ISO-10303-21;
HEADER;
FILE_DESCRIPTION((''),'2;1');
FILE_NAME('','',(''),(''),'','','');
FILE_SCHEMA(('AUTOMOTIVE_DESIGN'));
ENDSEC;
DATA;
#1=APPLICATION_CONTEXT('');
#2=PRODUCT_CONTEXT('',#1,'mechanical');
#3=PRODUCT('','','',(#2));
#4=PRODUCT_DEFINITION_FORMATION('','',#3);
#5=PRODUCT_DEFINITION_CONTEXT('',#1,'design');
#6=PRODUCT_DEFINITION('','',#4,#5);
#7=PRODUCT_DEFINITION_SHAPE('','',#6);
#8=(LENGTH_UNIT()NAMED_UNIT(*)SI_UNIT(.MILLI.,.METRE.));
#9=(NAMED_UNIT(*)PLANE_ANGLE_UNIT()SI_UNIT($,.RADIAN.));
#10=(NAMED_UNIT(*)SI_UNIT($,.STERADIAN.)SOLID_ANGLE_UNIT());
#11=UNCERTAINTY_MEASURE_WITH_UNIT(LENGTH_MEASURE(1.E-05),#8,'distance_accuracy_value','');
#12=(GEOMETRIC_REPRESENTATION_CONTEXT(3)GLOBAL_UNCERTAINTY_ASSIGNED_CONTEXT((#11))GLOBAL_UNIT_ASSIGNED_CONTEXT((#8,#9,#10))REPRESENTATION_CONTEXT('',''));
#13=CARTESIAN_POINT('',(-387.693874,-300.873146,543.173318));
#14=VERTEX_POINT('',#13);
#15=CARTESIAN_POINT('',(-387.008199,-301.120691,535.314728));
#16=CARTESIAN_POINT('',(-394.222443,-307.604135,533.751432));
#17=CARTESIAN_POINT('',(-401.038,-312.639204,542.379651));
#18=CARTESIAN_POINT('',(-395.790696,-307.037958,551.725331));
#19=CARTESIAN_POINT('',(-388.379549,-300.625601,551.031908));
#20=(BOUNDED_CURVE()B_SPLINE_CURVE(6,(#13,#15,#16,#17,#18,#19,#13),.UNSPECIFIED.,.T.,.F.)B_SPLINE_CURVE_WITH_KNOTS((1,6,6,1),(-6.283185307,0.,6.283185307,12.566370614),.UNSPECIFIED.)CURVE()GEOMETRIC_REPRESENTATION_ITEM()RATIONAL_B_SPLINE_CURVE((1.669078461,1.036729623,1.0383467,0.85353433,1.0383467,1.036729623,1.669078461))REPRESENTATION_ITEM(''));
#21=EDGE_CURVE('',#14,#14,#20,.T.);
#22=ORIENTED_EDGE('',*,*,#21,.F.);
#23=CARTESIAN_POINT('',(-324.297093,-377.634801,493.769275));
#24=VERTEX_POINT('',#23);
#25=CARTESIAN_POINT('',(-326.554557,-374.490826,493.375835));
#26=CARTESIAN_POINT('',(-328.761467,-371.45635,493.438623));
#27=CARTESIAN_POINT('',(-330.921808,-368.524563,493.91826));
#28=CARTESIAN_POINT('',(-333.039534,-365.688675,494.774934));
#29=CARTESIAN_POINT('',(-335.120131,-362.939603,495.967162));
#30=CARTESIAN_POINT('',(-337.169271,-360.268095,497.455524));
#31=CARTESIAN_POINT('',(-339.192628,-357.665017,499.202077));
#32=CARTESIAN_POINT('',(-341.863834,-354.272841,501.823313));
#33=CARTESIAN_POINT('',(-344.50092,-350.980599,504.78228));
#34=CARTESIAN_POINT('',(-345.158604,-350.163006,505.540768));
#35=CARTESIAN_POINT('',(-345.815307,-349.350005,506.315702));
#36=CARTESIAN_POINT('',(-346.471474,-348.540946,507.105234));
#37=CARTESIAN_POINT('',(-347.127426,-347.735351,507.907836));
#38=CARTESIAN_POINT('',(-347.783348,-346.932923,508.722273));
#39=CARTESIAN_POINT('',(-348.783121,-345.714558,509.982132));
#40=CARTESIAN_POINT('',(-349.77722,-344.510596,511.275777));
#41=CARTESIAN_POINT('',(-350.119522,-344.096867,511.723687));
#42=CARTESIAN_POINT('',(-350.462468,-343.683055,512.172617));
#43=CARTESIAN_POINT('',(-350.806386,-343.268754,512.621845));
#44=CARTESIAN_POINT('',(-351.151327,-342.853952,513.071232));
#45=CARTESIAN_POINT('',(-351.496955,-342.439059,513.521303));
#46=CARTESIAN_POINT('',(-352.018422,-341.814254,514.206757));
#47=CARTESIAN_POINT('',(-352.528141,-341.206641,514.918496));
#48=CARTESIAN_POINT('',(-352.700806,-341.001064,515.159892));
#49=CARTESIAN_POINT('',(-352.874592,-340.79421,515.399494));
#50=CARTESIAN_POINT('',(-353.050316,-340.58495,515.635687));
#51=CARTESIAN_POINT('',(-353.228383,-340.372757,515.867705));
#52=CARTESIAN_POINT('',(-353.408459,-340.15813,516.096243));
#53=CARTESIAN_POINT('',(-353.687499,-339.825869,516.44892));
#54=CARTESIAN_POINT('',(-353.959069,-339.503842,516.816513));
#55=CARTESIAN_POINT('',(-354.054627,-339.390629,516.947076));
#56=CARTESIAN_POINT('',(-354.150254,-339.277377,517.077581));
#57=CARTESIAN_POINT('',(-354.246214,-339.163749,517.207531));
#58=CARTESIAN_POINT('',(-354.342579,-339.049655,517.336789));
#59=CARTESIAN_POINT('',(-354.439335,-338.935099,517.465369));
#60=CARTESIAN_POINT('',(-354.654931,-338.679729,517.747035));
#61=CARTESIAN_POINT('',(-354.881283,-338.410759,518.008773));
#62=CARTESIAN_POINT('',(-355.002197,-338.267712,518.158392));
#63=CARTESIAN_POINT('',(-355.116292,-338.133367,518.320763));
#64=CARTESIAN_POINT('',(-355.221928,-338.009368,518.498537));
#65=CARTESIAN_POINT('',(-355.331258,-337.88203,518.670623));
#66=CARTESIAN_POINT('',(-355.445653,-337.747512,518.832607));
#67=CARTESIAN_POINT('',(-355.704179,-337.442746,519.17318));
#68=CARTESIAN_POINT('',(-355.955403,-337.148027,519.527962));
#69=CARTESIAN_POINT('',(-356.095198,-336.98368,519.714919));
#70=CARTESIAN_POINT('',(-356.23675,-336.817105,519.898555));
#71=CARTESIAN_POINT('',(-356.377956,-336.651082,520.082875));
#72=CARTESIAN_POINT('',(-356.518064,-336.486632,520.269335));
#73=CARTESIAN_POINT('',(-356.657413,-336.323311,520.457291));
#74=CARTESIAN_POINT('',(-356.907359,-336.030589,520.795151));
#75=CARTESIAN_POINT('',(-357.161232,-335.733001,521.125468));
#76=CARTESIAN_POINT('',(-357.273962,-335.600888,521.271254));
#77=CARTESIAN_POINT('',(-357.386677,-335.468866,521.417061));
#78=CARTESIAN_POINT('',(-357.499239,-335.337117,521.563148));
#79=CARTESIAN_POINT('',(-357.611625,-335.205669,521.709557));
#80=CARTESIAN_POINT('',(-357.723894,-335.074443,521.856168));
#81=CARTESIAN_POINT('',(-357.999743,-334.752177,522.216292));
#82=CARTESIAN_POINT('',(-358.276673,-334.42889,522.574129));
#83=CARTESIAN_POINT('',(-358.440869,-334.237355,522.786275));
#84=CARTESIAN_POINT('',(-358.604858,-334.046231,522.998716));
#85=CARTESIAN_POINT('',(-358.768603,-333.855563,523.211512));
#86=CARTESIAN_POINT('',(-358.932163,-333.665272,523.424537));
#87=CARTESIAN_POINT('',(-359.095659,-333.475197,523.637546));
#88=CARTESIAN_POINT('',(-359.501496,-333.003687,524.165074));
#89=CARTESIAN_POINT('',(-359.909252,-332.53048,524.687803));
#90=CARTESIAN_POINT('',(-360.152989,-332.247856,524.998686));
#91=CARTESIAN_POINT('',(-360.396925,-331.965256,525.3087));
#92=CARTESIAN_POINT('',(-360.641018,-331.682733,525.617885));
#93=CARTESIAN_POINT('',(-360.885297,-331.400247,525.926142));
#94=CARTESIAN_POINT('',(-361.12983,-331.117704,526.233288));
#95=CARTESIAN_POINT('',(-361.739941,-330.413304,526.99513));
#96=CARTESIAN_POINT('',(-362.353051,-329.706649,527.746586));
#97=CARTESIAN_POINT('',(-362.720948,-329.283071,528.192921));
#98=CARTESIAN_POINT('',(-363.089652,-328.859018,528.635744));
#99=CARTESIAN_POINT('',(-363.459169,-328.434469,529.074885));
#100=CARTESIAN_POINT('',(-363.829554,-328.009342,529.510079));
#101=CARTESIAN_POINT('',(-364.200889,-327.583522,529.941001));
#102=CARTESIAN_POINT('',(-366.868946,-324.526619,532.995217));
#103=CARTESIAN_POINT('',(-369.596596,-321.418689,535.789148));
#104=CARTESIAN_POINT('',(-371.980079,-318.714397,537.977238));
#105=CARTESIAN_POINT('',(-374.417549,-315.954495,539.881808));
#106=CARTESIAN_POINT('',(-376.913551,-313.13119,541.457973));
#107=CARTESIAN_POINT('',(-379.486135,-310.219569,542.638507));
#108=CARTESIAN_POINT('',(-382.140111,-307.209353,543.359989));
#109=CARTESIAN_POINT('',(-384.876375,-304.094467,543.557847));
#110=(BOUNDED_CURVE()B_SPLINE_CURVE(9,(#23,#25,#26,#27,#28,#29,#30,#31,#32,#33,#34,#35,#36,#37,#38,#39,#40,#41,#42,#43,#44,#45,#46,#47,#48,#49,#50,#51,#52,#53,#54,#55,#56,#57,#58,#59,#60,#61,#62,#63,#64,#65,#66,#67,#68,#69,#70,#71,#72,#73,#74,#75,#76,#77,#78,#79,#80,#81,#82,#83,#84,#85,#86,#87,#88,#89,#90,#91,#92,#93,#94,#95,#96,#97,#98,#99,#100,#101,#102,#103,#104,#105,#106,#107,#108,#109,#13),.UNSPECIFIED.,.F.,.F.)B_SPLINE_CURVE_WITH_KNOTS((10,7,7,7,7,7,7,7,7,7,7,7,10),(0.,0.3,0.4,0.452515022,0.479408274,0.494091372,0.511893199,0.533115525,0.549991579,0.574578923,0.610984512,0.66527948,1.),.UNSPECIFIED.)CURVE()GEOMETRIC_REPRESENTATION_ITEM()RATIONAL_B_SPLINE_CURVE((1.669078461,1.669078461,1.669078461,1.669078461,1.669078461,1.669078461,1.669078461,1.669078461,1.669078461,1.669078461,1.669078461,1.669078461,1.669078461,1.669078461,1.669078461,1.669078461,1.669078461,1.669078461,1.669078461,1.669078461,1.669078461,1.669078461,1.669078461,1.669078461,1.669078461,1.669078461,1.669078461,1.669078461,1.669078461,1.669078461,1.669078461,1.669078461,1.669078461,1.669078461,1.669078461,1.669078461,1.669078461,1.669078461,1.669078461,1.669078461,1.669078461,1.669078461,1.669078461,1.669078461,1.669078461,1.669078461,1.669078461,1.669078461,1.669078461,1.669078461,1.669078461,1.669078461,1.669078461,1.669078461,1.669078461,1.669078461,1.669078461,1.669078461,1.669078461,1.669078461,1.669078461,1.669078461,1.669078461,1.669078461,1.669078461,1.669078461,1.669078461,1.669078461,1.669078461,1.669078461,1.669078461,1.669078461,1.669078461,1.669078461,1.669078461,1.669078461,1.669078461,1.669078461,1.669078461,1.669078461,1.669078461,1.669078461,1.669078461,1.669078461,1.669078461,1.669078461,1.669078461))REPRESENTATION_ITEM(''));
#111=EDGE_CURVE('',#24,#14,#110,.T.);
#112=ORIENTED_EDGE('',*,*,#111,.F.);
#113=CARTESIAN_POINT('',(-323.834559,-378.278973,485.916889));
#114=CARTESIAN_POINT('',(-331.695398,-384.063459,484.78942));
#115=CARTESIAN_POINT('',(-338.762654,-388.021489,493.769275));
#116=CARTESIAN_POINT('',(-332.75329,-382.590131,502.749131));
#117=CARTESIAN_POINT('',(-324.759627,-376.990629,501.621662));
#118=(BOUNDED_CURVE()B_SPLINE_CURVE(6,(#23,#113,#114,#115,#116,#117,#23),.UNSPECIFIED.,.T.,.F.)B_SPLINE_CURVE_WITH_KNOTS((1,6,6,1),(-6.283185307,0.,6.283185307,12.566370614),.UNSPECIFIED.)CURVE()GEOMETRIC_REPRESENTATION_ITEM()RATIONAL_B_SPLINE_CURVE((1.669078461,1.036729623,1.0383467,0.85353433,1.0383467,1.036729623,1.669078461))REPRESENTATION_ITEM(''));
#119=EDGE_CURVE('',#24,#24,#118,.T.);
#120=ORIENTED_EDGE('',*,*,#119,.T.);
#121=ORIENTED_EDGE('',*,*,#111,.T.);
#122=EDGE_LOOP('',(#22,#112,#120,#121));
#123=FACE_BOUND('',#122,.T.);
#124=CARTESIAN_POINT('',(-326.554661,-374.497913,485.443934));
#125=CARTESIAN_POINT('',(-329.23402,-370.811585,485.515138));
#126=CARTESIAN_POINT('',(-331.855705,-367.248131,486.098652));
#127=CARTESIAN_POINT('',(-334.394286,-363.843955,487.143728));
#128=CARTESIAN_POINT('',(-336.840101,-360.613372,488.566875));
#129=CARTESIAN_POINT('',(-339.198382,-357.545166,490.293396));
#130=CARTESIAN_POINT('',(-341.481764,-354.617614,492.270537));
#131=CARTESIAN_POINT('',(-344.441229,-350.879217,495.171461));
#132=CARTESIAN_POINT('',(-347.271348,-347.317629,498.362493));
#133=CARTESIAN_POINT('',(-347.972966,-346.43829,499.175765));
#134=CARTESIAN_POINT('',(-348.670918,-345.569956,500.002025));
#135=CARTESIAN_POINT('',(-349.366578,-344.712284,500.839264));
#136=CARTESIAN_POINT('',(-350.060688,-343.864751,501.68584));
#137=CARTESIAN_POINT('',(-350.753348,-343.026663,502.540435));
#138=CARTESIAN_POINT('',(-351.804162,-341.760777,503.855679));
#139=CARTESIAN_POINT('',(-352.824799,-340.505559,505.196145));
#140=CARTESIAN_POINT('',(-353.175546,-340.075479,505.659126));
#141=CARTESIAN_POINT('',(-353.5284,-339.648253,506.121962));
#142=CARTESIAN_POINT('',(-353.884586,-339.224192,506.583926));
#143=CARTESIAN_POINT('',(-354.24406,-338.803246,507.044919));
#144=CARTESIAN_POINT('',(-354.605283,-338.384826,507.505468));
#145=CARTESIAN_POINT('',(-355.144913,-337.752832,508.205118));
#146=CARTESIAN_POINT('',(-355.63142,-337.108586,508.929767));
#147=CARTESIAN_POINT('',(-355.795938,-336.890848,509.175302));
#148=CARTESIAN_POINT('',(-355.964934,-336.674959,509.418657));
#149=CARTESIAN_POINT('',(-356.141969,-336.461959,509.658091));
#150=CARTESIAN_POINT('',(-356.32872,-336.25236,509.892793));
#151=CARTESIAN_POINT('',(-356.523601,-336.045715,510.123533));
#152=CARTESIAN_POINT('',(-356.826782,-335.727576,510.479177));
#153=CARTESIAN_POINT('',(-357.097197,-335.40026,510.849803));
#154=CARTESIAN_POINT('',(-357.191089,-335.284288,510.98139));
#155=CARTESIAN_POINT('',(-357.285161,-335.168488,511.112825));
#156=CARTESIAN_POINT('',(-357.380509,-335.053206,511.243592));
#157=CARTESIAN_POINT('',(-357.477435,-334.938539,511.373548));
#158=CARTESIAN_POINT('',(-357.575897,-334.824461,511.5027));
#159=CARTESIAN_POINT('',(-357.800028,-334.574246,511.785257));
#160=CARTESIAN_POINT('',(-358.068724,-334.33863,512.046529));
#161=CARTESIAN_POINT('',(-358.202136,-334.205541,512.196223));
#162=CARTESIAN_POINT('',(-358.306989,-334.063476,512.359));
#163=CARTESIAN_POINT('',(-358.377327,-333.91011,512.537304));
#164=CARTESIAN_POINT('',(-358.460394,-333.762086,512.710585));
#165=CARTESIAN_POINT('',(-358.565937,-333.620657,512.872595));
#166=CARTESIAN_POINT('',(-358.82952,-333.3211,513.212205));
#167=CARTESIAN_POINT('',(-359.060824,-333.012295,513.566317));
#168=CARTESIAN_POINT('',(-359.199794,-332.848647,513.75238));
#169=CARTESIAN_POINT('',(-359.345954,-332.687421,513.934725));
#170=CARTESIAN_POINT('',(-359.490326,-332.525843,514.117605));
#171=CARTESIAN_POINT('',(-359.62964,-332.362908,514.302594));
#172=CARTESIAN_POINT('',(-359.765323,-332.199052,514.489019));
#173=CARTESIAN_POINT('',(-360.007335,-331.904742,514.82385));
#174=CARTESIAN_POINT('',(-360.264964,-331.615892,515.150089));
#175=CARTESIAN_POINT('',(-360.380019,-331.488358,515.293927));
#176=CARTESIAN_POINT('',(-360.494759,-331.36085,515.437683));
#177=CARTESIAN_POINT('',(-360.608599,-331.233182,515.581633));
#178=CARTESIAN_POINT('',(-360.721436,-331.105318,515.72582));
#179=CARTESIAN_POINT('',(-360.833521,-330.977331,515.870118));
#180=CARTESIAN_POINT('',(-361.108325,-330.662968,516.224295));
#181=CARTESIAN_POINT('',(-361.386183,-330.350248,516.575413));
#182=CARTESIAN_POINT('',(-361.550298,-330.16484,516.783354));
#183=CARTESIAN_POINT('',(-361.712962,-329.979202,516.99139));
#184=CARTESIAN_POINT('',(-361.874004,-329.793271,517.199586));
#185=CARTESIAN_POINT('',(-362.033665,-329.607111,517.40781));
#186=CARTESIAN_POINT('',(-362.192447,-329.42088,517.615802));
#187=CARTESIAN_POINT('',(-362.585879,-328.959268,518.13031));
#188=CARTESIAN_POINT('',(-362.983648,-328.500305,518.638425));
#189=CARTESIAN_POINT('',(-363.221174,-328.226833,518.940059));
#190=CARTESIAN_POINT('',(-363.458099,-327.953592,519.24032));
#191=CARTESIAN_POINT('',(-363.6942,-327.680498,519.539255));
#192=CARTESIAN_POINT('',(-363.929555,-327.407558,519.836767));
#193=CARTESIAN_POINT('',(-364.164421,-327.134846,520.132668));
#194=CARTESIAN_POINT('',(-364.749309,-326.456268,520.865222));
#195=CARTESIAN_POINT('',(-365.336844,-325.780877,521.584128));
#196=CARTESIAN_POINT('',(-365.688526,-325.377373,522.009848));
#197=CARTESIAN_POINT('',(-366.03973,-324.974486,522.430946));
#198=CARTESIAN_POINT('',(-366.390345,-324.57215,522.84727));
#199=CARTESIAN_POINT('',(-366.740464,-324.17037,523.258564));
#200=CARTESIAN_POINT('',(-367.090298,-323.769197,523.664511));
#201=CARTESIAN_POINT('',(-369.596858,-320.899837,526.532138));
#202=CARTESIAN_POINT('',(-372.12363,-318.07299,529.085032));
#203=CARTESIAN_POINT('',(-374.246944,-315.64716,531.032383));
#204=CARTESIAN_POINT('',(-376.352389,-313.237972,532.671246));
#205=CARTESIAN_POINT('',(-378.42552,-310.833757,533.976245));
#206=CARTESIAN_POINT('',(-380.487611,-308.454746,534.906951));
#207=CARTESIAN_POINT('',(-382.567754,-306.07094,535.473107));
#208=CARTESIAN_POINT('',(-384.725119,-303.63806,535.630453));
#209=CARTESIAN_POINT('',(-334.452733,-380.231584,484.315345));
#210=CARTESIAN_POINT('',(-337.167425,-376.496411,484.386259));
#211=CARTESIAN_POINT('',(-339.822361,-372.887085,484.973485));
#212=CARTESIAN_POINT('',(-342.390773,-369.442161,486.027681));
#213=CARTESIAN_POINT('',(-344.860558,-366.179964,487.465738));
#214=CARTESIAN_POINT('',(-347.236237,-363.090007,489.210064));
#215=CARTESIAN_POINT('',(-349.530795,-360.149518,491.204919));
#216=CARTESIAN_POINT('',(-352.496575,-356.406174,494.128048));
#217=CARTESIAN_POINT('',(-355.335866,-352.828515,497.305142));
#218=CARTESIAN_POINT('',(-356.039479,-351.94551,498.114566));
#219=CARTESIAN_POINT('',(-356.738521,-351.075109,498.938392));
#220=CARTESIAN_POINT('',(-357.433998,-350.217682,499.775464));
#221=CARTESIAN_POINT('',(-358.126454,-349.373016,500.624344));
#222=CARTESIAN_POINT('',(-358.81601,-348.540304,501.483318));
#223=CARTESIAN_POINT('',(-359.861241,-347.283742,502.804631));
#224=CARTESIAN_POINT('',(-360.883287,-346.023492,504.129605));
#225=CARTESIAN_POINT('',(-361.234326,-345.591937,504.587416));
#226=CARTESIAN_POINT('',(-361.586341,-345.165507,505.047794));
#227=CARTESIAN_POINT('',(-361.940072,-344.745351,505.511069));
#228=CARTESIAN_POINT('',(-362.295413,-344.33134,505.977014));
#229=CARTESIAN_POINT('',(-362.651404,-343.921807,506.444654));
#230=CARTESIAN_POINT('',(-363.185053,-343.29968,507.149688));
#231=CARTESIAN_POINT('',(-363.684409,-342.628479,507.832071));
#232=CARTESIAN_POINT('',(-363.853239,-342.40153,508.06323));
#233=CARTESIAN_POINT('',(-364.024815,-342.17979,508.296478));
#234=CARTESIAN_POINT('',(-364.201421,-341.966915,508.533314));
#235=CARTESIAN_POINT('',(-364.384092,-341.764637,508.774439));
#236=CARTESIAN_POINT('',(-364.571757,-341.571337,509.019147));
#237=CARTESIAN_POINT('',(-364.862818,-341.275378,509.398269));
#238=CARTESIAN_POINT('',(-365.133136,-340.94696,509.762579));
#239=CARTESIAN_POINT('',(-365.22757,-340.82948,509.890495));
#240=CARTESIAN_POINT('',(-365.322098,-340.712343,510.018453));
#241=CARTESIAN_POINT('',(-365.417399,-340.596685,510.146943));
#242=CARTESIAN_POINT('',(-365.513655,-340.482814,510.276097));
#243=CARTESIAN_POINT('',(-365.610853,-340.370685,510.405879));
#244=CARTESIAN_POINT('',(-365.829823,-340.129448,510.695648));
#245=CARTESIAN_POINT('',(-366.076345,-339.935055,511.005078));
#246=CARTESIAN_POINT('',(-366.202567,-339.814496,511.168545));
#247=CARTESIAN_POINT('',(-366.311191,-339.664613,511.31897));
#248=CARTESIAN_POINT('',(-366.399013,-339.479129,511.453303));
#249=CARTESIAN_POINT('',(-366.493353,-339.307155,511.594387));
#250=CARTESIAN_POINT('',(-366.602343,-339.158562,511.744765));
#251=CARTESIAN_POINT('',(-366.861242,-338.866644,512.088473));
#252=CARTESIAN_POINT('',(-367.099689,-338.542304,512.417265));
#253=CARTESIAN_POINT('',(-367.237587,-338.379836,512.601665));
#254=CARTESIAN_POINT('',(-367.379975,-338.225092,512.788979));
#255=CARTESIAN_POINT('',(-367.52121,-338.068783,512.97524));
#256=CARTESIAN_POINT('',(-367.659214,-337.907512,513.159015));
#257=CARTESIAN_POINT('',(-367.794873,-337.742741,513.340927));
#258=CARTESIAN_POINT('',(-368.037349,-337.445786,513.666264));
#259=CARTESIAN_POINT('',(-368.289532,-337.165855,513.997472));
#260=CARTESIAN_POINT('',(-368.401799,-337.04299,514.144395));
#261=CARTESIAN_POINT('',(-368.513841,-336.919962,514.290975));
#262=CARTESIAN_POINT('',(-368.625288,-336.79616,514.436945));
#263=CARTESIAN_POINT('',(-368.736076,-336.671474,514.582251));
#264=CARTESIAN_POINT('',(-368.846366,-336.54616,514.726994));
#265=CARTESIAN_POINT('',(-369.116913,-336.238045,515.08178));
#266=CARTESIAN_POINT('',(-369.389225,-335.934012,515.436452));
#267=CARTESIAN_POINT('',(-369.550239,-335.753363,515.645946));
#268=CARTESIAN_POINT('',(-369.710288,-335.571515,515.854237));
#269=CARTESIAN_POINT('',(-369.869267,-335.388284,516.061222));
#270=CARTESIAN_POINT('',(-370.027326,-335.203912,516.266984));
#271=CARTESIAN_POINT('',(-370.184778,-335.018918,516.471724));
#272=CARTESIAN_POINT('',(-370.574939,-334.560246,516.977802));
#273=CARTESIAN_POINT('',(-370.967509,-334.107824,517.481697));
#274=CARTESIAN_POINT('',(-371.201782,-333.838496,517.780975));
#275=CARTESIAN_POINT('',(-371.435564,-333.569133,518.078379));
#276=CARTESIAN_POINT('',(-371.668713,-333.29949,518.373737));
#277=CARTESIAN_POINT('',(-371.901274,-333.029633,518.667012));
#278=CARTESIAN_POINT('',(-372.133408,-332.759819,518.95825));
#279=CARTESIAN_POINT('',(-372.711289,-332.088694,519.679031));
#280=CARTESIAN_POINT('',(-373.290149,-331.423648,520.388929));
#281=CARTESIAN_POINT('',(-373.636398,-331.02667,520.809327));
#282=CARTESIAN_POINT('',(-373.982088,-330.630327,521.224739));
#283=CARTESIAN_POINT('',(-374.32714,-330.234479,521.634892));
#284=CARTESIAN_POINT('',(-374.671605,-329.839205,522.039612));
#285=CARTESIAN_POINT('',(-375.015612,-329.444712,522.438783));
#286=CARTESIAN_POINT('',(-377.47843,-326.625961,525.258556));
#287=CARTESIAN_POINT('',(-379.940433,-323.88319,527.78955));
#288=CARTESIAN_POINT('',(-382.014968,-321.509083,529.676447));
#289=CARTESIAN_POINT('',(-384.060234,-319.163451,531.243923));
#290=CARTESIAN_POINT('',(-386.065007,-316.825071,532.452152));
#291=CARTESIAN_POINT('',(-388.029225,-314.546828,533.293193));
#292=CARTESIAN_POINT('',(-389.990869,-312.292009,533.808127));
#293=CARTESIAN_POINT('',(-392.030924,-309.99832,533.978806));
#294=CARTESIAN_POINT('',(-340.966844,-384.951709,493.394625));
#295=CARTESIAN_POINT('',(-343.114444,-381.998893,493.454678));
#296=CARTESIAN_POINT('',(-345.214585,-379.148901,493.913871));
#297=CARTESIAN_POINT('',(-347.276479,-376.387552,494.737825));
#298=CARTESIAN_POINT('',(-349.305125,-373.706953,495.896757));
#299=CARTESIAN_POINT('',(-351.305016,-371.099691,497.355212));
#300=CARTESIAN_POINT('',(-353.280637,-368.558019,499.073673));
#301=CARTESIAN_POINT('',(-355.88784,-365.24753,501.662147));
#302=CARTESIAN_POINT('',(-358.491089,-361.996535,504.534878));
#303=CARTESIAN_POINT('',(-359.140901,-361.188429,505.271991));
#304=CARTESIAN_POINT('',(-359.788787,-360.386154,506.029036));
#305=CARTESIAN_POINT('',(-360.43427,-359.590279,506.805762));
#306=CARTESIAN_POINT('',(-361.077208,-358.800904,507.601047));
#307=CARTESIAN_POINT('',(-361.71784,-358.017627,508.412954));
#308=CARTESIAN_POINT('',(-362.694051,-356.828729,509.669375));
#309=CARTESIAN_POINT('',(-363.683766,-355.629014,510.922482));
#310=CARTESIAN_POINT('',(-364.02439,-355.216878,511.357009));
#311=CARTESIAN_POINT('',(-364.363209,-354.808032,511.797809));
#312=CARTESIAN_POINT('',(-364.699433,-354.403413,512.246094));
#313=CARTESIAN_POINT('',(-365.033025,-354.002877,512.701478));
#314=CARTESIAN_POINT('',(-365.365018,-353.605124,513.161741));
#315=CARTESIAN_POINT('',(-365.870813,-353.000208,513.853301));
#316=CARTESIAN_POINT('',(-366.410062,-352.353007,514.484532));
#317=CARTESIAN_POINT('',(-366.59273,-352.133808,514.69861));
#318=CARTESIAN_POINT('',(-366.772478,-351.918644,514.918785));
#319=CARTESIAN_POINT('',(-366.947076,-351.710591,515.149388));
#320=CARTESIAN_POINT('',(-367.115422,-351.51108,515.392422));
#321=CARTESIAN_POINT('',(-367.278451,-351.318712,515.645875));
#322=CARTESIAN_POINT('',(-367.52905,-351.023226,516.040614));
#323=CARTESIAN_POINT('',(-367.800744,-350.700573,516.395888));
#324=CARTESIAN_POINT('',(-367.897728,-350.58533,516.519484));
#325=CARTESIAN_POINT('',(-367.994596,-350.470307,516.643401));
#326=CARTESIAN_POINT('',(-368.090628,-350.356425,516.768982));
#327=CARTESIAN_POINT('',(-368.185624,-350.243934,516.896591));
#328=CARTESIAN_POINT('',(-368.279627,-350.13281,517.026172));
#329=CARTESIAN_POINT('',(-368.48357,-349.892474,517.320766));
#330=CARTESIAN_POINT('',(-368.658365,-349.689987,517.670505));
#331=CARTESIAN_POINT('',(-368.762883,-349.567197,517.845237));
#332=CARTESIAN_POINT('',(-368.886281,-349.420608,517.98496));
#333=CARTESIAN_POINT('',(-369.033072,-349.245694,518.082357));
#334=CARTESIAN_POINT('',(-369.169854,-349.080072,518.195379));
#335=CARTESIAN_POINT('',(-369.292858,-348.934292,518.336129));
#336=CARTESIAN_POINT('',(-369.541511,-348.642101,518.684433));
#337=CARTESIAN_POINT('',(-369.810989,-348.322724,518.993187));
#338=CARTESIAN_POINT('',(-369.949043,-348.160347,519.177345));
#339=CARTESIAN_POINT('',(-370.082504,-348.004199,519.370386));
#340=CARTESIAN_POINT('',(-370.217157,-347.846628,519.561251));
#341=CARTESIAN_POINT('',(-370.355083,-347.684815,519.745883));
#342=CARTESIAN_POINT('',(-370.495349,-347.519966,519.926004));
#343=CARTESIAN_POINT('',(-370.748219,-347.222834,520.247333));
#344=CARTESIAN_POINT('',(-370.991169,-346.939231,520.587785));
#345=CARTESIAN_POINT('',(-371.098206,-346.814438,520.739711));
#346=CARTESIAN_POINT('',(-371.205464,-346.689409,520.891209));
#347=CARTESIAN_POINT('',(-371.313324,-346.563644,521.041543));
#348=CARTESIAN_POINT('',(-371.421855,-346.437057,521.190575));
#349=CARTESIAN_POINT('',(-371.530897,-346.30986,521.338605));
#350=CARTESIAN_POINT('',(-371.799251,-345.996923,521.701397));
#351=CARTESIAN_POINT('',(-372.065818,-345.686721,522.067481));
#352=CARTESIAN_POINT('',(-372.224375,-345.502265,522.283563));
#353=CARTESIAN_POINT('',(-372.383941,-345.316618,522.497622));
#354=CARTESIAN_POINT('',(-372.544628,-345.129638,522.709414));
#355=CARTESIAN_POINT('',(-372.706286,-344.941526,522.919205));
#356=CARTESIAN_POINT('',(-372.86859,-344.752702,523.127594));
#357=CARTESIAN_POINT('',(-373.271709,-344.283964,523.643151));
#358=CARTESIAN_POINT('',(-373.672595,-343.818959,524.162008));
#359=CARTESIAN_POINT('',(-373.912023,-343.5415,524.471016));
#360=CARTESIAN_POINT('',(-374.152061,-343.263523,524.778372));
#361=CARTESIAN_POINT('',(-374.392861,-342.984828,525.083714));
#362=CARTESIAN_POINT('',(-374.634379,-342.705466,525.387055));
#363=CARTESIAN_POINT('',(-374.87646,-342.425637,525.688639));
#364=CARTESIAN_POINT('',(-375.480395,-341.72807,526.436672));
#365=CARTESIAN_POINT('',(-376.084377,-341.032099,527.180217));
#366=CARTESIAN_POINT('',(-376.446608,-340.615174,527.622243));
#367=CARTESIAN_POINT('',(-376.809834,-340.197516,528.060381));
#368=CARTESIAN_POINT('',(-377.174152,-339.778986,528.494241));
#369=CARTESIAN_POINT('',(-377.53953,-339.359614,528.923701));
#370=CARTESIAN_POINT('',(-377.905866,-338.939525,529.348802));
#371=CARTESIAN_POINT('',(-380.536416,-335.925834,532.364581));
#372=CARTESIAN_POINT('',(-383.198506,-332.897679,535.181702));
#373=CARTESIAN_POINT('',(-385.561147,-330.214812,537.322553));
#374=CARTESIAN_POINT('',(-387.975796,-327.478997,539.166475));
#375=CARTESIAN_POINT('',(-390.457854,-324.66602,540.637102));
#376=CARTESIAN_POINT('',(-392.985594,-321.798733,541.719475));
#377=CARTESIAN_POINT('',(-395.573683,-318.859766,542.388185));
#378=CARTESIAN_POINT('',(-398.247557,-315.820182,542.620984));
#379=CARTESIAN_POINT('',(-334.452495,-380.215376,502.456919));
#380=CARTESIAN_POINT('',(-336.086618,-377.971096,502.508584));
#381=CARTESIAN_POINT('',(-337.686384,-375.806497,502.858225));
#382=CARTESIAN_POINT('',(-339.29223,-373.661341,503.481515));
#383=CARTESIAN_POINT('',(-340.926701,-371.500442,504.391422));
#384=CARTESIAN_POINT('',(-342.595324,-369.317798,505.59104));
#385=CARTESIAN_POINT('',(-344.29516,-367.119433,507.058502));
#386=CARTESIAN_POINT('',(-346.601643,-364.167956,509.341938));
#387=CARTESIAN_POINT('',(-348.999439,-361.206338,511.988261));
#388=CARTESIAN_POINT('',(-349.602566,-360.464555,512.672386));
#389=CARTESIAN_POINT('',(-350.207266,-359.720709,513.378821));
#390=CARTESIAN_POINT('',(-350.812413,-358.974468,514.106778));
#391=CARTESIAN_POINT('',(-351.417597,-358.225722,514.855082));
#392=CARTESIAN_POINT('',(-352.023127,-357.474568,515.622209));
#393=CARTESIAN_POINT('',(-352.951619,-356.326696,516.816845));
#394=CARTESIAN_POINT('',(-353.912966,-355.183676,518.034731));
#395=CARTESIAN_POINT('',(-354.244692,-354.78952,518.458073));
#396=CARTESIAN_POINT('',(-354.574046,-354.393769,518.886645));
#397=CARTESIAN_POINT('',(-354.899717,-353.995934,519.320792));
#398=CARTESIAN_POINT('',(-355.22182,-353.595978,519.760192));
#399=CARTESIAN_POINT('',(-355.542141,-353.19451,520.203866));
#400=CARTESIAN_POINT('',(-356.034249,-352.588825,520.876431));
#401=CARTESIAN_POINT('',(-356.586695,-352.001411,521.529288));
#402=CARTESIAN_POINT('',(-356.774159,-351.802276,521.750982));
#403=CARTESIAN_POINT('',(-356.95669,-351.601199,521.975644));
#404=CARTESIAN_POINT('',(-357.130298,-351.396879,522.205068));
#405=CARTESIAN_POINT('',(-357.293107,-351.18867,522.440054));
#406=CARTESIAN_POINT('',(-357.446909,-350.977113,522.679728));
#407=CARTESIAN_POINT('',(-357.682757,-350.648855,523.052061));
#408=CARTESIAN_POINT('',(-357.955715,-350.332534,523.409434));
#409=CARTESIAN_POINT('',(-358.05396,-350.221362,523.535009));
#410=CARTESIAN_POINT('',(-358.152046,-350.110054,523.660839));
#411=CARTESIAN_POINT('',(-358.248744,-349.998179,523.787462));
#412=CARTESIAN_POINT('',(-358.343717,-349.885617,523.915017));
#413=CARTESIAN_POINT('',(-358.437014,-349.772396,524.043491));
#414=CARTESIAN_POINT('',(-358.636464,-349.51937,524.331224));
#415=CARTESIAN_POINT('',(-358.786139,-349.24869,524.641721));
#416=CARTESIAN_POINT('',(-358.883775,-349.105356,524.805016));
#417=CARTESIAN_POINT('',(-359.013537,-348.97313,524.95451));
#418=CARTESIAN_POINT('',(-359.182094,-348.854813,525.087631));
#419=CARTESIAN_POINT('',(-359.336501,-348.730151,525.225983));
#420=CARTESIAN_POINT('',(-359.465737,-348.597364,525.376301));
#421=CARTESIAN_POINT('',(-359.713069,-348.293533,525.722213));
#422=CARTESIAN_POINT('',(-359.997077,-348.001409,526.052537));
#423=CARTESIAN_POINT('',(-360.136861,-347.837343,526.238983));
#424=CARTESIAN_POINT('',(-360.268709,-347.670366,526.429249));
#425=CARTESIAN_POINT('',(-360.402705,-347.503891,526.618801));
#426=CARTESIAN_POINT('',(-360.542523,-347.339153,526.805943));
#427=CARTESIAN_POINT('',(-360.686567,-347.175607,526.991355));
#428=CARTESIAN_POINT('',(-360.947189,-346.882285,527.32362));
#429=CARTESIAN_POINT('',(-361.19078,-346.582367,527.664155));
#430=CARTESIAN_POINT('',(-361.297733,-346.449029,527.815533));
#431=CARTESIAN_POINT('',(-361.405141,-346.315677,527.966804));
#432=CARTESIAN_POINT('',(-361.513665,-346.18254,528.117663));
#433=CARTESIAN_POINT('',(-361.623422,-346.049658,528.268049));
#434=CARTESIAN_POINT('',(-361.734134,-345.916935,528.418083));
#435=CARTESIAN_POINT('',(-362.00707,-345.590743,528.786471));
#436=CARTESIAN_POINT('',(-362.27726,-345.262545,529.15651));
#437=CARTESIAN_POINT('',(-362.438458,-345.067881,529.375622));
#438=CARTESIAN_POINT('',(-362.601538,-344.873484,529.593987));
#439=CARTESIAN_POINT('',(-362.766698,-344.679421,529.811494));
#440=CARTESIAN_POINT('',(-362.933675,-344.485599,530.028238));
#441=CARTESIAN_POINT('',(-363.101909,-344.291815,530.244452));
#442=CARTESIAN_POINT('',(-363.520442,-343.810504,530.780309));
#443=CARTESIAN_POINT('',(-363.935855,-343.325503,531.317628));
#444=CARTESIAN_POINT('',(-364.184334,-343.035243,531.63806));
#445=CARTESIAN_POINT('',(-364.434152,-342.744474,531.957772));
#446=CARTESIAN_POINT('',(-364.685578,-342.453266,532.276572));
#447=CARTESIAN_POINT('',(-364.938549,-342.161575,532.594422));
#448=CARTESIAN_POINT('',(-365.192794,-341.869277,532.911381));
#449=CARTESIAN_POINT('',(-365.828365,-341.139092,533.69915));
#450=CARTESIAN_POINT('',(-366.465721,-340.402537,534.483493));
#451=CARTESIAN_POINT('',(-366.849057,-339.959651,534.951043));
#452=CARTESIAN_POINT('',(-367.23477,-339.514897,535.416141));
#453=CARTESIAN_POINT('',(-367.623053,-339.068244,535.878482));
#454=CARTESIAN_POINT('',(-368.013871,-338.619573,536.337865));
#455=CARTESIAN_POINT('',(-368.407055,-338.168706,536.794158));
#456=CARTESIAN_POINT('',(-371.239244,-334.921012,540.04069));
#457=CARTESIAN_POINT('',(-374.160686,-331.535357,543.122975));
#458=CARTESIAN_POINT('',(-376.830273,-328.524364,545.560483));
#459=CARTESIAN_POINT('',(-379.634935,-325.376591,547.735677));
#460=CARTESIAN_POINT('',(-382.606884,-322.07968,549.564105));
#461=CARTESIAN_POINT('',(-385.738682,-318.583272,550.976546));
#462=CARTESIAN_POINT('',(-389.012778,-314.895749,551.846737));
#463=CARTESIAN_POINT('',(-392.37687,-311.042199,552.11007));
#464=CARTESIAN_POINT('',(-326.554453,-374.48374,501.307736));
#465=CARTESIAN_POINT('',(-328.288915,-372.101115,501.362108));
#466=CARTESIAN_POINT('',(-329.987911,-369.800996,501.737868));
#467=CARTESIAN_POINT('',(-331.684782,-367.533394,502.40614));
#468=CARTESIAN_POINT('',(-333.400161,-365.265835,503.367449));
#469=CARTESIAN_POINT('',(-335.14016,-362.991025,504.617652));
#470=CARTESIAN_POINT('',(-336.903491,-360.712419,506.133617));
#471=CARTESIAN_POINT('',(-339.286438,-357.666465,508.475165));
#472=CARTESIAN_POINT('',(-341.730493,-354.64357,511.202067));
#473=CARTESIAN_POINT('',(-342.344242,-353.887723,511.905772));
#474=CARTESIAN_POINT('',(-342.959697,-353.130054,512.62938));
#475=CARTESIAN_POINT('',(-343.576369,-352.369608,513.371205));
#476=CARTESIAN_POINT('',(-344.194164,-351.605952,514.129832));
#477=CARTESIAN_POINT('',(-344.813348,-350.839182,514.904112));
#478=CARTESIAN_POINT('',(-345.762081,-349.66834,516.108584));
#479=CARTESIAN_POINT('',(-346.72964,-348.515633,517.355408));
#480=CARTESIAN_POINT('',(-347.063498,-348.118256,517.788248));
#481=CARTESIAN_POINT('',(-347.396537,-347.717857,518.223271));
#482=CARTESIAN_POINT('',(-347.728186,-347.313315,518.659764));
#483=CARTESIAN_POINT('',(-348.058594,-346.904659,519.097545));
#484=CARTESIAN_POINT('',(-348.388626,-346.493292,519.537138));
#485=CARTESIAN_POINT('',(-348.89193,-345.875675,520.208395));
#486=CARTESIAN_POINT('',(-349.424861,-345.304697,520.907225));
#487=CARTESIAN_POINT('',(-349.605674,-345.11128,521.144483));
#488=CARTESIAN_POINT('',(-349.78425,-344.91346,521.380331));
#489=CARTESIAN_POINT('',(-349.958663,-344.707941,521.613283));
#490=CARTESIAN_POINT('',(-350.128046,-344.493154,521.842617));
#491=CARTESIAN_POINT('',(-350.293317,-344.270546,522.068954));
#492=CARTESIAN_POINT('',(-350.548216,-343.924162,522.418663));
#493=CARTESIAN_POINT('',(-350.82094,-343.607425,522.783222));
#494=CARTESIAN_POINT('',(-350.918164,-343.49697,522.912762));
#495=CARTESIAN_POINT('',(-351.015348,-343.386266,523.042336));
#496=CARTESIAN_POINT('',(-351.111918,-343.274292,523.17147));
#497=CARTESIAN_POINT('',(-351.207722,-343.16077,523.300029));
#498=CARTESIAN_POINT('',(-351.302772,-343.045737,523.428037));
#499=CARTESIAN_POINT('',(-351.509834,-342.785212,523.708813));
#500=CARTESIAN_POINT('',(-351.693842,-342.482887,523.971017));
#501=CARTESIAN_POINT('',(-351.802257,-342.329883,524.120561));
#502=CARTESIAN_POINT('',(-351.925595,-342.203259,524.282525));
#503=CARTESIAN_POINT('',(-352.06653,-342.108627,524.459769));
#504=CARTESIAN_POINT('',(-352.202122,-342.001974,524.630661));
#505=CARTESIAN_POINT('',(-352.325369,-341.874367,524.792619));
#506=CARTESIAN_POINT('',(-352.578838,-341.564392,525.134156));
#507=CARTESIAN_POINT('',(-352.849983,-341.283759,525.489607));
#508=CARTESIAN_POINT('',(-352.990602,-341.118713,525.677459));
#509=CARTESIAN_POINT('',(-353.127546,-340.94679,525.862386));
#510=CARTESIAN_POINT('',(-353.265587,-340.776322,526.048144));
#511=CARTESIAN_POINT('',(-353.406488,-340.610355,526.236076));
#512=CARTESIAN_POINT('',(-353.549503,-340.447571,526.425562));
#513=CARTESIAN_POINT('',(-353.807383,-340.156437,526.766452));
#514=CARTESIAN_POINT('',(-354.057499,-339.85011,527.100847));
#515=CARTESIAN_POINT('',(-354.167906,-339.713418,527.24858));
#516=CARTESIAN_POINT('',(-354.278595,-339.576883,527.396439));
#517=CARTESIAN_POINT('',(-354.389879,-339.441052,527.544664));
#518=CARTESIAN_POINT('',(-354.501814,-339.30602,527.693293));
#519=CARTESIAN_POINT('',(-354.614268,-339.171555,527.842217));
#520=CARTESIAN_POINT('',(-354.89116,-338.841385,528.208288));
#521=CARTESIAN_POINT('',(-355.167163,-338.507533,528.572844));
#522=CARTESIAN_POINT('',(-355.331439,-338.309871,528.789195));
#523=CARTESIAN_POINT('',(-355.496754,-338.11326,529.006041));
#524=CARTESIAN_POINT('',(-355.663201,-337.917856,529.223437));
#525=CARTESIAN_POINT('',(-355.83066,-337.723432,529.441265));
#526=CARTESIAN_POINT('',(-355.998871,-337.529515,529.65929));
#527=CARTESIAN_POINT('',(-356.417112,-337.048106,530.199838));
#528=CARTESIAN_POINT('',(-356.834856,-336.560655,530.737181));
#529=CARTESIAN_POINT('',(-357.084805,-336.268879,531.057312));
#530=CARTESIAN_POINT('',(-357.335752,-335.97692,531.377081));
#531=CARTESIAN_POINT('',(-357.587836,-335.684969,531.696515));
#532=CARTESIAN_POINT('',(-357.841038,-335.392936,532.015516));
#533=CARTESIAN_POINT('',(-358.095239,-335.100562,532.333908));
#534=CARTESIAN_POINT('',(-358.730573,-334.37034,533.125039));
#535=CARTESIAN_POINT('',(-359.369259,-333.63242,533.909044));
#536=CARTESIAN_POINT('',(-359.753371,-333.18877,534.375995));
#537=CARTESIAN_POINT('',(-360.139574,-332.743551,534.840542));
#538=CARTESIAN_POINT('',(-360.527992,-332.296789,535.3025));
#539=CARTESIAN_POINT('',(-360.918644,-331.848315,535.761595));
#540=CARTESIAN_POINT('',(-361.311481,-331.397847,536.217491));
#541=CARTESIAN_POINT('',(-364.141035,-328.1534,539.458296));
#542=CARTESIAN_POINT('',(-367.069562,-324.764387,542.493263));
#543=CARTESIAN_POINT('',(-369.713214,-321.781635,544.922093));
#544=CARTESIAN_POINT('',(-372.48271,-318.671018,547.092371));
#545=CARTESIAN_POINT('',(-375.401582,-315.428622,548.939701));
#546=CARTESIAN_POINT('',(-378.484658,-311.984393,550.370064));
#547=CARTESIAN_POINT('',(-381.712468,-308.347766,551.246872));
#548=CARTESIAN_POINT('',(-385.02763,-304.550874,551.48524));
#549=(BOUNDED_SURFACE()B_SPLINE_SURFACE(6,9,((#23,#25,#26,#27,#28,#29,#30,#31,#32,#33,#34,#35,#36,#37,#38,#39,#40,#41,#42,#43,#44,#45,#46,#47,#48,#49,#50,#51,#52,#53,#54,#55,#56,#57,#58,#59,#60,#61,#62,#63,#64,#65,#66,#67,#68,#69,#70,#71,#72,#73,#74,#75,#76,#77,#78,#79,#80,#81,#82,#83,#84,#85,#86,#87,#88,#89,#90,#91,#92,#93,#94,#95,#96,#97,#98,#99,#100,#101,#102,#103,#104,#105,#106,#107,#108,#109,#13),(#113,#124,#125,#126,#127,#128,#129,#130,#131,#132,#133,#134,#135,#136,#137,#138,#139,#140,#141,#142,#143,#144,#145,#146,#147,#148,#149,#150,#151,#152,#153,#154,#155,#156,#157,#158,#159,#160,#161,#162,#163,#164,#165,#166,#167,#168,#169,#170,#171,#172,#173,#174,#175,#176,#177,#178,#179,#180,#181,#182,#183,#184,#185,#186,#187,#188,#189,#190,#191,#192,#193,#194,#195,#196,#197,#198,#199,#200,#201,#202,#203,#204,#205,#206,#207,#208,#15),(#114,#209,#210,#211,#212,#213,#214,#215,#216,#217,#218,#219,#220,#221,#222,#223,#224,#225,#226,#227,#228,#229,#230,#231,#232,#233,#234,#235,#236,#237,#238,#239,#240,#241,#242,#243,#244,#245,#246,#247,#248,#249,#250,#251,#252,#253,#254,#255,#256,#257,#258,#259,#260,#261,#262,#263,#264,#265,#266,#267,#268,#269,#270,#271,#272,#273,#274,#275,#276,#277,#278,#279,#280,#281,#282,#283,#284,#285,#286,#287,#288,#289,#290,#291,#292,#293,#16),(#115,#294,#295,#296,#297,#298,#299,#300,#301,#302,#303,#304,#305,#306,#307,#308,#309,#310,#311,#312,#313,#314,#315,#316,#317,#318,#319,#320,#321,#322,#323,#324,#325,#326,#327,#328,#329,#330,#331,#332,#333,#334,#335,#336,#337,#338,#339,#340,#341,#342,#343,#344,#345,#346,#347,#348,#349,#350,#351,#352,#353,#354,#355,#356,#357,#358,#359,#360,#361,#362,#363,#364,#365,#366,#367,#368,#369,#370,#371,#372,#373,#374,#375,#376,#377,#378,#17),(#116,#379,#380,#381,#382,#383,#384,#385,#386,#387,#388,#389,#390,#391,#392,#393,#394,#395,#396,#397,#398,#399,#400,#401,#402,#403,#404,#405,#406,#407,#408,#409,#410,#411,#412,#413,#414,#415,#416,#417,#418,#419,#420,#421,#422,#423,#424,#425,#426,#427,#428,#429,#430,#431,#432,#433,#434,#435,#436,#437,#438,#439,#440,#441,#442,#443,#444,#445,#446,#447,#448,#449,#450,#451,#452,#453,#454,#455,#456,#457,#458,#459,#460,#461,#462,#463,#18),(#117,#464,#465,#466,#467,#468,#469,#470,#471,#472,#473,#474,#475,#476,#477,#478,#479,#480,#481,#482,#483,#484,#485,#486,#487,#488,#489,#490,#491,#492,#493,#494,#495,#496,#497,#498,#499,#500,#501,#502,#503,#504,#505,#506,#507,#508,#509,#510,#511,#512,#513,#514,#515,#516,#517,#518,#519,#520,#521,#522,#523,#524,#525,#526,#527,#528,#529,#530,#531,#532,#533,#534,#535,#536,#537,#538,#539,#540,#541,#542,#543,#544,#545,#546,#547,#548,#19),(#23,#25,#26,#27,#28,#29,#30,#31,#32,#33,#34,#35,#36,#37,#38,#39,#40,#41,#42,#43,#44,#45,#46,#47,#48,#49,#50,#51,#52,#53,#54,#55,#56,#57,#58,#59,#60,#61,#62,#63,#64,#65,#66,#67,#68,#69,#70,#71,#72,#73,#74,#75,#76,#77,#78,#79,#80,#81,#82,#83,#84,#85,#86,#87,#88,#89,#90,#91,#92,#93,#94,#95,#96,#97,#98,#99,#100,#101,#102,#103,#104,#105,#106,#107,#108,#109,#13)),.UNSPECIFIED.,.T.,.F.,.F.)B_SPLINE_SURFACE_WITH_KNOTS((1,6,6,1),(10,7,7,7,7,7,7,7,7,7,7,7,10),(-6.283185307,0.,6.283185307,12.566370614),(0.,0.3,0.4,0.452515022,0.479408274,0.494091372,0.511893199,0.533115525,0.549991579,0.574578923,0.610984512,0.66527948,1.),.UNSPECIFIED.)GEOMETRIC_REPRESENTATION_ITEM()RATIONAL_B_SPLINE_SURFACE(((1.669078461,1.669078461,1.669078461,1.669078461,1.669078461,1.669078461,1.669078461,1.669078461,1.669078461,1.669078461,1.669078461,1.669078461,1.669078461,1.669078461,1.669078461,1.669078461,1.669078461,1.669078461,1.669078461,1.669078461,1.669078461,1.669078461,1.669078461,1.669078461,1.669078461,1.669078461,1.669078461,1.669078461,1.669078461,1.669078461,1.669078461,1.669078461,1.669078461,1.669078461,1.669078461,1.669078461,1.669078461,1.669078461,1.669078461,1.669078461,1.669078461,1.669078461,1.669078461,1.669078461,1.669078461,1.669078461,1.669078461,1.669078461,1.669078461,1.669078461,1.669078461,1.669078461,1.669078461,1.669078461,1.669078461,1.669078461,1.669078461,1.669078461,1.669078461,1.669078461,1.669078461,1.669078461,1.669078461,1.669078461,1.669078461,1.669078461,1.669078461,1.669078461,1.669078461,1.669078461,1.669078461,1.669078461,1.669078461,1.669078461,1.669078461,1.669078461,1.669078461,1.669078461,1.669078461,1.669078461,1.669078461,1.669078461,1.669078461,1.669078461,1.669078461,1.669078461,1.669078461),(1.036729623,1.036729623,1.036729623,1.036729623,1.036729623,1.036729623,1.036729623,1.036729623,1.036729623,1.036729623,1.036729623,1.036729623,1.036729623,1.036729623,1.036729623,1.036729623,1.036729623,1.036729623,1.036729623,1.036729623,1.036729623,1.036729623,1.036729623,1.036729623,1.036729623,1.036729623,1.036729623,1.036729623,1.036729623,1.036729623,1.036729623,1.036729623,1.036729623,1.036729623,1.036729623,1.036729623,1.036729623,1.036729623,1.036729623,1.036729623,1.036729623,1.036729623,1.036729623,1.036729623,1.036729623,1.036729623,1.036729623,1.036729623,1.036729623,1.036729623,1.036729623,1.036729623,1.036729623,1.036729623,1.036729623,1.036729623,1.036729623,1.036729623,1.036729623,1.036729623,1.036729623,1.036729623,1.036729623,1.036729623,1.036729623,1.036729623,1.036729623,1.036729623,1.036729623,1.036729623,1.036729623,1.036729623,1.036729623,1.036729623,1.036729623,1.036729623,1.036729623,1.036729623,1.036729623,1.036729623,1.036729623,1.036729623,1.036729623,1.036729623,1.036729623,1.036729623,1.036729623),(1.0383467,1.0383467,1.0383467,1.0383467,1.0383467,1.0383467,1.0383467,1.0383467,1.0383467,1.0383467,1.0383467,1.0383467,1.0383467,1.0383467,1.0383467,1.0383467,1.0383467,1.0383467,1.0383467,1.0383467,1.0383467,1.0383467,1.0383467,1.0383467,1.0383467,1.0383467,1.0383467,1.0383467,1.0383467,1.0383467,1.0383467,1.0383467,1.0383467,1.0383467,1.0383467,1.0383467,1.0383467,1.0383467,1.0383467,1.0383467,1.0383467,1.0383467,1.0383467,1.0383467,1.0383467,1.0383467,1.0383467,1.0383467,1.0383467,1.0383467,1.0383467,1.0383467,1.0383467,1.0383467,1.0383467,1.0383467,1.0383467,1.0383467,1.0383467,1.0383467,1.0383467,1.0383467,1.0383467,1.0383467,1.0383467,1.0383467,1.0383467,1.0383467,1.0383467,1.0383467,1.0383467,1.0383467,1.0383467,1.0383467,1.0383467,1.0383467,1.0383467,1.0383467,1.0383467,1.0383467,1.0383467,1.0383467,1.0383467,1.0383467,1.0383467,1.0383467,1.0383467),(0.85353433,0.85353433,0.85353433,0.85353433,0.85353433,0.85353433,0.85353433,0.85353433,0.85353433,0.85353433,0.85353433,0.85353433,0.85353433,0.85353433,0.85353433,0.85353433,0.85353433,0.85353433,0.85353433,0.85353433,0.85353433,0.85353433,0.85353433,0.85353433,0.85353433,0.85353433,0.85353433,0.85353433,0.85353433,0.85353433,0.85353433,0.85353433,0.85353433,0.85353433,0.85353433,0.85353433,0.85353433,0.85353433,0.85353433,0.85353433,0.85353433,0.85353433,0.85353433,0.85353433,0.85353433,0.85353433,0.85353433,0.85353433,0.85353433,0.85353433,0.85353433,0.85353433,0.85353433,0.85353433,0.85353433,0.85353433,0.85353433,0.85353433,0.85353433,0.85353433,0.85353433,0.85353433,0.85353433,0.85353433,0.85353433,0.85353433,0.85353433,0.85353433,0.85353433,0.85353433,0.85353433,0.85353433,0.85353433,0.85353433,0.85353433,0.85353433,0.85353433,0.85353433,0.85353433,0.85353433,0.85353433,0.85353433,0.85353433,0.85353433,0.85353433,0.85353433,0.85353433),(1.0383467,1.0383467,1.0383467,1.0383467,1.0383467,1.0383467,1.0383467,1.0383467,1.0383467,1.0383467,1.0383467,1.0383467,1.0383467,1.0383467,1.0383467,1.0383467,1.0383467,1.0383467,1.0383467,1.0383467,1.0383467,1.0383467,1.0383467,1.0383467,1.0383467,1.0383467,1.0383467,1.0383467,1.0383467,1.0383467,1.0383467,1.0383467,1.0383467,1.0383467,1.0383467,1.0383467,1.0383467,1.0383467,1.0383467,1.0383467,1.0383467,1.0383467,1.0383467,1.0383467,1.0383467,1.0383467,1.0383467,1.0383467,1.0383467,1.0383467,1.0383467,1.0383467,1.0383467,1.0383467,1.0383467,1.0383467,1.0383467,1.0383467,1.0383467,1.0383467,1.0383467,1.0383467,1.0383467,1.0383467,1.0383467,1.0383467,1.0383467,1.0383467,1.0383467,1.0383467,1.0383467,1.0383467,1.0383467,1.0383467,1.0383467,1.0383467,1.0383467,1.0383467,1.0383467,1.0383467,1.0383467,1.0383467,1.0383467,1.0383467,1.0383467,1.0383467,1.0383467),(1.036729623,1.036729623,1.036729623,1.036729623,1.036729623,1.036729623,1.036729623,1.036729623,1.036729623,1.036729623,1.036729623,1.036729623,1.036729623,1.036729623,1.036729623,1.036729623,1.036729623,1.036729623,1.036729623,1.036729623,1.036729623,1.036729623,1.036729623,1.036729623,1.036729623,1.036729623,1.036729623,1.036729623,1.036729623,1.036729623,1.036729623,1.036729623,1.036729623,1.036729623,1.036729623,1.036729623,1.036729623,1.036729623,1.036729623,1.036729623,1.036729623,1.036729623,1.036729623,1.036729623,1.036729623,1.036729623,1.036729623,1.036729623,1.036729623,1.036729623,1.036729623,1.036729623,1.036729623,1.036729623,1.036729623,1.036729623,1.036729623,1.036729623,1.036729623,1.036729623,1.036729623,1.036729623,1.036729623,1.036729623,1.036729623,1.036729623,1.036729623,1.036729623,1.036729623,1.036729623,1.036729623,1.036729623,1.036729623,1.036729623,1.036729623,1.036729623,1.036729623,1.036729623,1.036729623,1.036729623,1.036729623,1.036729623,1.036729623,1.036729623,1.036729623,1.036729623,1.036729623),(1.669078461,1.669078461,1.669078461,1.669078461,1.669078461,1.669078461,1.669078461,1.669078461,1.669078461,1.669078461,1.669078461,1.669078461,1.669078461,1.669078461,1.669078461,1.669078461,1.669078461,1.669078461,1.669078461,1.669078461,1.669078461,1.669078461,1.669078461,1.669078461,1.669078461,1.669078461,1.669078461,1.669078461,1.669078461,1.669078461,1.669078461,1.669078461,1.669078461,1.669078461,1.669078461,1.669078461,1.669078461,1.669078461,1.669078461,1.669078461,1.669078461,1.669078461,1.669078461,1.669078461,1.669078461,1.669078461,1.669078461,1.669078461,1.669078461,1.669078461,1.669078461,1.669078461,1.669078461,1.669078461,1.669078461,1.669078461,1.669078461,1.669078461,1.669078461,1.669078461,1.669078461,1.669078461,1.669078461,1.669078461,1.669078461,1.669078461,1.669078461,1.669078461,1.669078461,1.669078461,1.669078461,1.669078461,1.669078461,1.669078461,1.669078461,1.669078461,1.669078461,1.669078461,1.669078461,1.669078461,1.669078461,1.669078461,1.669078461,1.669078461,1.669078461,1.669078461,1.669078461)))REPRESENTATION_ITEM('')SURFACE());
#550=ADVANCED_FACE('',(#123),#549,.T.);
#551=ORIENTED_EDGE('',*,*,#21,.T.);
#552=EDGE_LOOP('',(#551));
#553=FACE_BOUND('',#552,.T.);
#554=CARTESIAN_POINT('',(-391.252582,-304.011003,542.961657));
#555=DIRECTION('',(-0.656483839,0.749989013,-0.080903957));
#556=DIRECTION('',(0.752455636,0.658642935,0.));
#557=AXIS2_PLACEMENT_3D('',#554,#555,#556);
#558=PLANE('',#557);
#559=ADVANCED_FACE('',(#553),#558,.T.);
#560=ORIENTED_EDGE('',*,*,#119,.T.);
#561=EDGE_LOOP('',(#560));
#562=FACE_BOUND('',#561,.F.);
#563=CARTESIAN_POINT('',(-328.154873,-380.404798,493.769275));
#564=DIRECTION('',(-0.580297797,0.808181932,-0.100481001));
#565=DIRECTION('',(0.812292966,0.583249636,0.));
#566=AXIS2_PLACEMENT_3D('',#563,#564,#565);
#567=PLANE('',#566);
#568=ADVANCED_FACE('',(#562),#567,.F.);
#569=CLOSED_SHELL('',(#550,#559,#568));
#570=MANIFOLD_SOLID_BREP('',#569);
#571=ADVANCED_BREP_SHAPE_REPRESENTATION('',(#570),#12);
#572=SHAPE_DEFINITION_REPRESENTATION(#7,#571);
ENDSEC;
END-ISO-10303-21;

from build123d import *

# Parameters (mm, degrees)
SWEEP1_PROFILE_R = 4.75


with BuildPart() as part:
    # Sweep1: sweep along a curve in space
    with BuildLine() as sweep1_path:
        add(Edge.make_bspline(
            [(-328.155484411, -380.405237038, 493.76927549), (-350.588027105, -349.163388784, 489.884986505), (-366.065420675, -332.786796991, 546.06571588), (-391.25314586, -304.011500454, 542.961623286)],
            knots=[0, 0, 0, 0, 1, 1, 1, 1], degree=3))
    # Sweep1 profile (on start of the path) → Sweep1 (sweep)
    with BuildSketch(Plane(origin=(-328.155484411, -380.405237038, 493.76927549), x_dir=(0.8122929655265096, 0.5832496362246177, 0), z_dir=(-0.5802977965574565, 0.8081819323632181, -0.1004810007524596))):
        Circle(SWEEP1_PROFILE_R)
    sweep(path=sweep1_path.line)


solid = part.part
